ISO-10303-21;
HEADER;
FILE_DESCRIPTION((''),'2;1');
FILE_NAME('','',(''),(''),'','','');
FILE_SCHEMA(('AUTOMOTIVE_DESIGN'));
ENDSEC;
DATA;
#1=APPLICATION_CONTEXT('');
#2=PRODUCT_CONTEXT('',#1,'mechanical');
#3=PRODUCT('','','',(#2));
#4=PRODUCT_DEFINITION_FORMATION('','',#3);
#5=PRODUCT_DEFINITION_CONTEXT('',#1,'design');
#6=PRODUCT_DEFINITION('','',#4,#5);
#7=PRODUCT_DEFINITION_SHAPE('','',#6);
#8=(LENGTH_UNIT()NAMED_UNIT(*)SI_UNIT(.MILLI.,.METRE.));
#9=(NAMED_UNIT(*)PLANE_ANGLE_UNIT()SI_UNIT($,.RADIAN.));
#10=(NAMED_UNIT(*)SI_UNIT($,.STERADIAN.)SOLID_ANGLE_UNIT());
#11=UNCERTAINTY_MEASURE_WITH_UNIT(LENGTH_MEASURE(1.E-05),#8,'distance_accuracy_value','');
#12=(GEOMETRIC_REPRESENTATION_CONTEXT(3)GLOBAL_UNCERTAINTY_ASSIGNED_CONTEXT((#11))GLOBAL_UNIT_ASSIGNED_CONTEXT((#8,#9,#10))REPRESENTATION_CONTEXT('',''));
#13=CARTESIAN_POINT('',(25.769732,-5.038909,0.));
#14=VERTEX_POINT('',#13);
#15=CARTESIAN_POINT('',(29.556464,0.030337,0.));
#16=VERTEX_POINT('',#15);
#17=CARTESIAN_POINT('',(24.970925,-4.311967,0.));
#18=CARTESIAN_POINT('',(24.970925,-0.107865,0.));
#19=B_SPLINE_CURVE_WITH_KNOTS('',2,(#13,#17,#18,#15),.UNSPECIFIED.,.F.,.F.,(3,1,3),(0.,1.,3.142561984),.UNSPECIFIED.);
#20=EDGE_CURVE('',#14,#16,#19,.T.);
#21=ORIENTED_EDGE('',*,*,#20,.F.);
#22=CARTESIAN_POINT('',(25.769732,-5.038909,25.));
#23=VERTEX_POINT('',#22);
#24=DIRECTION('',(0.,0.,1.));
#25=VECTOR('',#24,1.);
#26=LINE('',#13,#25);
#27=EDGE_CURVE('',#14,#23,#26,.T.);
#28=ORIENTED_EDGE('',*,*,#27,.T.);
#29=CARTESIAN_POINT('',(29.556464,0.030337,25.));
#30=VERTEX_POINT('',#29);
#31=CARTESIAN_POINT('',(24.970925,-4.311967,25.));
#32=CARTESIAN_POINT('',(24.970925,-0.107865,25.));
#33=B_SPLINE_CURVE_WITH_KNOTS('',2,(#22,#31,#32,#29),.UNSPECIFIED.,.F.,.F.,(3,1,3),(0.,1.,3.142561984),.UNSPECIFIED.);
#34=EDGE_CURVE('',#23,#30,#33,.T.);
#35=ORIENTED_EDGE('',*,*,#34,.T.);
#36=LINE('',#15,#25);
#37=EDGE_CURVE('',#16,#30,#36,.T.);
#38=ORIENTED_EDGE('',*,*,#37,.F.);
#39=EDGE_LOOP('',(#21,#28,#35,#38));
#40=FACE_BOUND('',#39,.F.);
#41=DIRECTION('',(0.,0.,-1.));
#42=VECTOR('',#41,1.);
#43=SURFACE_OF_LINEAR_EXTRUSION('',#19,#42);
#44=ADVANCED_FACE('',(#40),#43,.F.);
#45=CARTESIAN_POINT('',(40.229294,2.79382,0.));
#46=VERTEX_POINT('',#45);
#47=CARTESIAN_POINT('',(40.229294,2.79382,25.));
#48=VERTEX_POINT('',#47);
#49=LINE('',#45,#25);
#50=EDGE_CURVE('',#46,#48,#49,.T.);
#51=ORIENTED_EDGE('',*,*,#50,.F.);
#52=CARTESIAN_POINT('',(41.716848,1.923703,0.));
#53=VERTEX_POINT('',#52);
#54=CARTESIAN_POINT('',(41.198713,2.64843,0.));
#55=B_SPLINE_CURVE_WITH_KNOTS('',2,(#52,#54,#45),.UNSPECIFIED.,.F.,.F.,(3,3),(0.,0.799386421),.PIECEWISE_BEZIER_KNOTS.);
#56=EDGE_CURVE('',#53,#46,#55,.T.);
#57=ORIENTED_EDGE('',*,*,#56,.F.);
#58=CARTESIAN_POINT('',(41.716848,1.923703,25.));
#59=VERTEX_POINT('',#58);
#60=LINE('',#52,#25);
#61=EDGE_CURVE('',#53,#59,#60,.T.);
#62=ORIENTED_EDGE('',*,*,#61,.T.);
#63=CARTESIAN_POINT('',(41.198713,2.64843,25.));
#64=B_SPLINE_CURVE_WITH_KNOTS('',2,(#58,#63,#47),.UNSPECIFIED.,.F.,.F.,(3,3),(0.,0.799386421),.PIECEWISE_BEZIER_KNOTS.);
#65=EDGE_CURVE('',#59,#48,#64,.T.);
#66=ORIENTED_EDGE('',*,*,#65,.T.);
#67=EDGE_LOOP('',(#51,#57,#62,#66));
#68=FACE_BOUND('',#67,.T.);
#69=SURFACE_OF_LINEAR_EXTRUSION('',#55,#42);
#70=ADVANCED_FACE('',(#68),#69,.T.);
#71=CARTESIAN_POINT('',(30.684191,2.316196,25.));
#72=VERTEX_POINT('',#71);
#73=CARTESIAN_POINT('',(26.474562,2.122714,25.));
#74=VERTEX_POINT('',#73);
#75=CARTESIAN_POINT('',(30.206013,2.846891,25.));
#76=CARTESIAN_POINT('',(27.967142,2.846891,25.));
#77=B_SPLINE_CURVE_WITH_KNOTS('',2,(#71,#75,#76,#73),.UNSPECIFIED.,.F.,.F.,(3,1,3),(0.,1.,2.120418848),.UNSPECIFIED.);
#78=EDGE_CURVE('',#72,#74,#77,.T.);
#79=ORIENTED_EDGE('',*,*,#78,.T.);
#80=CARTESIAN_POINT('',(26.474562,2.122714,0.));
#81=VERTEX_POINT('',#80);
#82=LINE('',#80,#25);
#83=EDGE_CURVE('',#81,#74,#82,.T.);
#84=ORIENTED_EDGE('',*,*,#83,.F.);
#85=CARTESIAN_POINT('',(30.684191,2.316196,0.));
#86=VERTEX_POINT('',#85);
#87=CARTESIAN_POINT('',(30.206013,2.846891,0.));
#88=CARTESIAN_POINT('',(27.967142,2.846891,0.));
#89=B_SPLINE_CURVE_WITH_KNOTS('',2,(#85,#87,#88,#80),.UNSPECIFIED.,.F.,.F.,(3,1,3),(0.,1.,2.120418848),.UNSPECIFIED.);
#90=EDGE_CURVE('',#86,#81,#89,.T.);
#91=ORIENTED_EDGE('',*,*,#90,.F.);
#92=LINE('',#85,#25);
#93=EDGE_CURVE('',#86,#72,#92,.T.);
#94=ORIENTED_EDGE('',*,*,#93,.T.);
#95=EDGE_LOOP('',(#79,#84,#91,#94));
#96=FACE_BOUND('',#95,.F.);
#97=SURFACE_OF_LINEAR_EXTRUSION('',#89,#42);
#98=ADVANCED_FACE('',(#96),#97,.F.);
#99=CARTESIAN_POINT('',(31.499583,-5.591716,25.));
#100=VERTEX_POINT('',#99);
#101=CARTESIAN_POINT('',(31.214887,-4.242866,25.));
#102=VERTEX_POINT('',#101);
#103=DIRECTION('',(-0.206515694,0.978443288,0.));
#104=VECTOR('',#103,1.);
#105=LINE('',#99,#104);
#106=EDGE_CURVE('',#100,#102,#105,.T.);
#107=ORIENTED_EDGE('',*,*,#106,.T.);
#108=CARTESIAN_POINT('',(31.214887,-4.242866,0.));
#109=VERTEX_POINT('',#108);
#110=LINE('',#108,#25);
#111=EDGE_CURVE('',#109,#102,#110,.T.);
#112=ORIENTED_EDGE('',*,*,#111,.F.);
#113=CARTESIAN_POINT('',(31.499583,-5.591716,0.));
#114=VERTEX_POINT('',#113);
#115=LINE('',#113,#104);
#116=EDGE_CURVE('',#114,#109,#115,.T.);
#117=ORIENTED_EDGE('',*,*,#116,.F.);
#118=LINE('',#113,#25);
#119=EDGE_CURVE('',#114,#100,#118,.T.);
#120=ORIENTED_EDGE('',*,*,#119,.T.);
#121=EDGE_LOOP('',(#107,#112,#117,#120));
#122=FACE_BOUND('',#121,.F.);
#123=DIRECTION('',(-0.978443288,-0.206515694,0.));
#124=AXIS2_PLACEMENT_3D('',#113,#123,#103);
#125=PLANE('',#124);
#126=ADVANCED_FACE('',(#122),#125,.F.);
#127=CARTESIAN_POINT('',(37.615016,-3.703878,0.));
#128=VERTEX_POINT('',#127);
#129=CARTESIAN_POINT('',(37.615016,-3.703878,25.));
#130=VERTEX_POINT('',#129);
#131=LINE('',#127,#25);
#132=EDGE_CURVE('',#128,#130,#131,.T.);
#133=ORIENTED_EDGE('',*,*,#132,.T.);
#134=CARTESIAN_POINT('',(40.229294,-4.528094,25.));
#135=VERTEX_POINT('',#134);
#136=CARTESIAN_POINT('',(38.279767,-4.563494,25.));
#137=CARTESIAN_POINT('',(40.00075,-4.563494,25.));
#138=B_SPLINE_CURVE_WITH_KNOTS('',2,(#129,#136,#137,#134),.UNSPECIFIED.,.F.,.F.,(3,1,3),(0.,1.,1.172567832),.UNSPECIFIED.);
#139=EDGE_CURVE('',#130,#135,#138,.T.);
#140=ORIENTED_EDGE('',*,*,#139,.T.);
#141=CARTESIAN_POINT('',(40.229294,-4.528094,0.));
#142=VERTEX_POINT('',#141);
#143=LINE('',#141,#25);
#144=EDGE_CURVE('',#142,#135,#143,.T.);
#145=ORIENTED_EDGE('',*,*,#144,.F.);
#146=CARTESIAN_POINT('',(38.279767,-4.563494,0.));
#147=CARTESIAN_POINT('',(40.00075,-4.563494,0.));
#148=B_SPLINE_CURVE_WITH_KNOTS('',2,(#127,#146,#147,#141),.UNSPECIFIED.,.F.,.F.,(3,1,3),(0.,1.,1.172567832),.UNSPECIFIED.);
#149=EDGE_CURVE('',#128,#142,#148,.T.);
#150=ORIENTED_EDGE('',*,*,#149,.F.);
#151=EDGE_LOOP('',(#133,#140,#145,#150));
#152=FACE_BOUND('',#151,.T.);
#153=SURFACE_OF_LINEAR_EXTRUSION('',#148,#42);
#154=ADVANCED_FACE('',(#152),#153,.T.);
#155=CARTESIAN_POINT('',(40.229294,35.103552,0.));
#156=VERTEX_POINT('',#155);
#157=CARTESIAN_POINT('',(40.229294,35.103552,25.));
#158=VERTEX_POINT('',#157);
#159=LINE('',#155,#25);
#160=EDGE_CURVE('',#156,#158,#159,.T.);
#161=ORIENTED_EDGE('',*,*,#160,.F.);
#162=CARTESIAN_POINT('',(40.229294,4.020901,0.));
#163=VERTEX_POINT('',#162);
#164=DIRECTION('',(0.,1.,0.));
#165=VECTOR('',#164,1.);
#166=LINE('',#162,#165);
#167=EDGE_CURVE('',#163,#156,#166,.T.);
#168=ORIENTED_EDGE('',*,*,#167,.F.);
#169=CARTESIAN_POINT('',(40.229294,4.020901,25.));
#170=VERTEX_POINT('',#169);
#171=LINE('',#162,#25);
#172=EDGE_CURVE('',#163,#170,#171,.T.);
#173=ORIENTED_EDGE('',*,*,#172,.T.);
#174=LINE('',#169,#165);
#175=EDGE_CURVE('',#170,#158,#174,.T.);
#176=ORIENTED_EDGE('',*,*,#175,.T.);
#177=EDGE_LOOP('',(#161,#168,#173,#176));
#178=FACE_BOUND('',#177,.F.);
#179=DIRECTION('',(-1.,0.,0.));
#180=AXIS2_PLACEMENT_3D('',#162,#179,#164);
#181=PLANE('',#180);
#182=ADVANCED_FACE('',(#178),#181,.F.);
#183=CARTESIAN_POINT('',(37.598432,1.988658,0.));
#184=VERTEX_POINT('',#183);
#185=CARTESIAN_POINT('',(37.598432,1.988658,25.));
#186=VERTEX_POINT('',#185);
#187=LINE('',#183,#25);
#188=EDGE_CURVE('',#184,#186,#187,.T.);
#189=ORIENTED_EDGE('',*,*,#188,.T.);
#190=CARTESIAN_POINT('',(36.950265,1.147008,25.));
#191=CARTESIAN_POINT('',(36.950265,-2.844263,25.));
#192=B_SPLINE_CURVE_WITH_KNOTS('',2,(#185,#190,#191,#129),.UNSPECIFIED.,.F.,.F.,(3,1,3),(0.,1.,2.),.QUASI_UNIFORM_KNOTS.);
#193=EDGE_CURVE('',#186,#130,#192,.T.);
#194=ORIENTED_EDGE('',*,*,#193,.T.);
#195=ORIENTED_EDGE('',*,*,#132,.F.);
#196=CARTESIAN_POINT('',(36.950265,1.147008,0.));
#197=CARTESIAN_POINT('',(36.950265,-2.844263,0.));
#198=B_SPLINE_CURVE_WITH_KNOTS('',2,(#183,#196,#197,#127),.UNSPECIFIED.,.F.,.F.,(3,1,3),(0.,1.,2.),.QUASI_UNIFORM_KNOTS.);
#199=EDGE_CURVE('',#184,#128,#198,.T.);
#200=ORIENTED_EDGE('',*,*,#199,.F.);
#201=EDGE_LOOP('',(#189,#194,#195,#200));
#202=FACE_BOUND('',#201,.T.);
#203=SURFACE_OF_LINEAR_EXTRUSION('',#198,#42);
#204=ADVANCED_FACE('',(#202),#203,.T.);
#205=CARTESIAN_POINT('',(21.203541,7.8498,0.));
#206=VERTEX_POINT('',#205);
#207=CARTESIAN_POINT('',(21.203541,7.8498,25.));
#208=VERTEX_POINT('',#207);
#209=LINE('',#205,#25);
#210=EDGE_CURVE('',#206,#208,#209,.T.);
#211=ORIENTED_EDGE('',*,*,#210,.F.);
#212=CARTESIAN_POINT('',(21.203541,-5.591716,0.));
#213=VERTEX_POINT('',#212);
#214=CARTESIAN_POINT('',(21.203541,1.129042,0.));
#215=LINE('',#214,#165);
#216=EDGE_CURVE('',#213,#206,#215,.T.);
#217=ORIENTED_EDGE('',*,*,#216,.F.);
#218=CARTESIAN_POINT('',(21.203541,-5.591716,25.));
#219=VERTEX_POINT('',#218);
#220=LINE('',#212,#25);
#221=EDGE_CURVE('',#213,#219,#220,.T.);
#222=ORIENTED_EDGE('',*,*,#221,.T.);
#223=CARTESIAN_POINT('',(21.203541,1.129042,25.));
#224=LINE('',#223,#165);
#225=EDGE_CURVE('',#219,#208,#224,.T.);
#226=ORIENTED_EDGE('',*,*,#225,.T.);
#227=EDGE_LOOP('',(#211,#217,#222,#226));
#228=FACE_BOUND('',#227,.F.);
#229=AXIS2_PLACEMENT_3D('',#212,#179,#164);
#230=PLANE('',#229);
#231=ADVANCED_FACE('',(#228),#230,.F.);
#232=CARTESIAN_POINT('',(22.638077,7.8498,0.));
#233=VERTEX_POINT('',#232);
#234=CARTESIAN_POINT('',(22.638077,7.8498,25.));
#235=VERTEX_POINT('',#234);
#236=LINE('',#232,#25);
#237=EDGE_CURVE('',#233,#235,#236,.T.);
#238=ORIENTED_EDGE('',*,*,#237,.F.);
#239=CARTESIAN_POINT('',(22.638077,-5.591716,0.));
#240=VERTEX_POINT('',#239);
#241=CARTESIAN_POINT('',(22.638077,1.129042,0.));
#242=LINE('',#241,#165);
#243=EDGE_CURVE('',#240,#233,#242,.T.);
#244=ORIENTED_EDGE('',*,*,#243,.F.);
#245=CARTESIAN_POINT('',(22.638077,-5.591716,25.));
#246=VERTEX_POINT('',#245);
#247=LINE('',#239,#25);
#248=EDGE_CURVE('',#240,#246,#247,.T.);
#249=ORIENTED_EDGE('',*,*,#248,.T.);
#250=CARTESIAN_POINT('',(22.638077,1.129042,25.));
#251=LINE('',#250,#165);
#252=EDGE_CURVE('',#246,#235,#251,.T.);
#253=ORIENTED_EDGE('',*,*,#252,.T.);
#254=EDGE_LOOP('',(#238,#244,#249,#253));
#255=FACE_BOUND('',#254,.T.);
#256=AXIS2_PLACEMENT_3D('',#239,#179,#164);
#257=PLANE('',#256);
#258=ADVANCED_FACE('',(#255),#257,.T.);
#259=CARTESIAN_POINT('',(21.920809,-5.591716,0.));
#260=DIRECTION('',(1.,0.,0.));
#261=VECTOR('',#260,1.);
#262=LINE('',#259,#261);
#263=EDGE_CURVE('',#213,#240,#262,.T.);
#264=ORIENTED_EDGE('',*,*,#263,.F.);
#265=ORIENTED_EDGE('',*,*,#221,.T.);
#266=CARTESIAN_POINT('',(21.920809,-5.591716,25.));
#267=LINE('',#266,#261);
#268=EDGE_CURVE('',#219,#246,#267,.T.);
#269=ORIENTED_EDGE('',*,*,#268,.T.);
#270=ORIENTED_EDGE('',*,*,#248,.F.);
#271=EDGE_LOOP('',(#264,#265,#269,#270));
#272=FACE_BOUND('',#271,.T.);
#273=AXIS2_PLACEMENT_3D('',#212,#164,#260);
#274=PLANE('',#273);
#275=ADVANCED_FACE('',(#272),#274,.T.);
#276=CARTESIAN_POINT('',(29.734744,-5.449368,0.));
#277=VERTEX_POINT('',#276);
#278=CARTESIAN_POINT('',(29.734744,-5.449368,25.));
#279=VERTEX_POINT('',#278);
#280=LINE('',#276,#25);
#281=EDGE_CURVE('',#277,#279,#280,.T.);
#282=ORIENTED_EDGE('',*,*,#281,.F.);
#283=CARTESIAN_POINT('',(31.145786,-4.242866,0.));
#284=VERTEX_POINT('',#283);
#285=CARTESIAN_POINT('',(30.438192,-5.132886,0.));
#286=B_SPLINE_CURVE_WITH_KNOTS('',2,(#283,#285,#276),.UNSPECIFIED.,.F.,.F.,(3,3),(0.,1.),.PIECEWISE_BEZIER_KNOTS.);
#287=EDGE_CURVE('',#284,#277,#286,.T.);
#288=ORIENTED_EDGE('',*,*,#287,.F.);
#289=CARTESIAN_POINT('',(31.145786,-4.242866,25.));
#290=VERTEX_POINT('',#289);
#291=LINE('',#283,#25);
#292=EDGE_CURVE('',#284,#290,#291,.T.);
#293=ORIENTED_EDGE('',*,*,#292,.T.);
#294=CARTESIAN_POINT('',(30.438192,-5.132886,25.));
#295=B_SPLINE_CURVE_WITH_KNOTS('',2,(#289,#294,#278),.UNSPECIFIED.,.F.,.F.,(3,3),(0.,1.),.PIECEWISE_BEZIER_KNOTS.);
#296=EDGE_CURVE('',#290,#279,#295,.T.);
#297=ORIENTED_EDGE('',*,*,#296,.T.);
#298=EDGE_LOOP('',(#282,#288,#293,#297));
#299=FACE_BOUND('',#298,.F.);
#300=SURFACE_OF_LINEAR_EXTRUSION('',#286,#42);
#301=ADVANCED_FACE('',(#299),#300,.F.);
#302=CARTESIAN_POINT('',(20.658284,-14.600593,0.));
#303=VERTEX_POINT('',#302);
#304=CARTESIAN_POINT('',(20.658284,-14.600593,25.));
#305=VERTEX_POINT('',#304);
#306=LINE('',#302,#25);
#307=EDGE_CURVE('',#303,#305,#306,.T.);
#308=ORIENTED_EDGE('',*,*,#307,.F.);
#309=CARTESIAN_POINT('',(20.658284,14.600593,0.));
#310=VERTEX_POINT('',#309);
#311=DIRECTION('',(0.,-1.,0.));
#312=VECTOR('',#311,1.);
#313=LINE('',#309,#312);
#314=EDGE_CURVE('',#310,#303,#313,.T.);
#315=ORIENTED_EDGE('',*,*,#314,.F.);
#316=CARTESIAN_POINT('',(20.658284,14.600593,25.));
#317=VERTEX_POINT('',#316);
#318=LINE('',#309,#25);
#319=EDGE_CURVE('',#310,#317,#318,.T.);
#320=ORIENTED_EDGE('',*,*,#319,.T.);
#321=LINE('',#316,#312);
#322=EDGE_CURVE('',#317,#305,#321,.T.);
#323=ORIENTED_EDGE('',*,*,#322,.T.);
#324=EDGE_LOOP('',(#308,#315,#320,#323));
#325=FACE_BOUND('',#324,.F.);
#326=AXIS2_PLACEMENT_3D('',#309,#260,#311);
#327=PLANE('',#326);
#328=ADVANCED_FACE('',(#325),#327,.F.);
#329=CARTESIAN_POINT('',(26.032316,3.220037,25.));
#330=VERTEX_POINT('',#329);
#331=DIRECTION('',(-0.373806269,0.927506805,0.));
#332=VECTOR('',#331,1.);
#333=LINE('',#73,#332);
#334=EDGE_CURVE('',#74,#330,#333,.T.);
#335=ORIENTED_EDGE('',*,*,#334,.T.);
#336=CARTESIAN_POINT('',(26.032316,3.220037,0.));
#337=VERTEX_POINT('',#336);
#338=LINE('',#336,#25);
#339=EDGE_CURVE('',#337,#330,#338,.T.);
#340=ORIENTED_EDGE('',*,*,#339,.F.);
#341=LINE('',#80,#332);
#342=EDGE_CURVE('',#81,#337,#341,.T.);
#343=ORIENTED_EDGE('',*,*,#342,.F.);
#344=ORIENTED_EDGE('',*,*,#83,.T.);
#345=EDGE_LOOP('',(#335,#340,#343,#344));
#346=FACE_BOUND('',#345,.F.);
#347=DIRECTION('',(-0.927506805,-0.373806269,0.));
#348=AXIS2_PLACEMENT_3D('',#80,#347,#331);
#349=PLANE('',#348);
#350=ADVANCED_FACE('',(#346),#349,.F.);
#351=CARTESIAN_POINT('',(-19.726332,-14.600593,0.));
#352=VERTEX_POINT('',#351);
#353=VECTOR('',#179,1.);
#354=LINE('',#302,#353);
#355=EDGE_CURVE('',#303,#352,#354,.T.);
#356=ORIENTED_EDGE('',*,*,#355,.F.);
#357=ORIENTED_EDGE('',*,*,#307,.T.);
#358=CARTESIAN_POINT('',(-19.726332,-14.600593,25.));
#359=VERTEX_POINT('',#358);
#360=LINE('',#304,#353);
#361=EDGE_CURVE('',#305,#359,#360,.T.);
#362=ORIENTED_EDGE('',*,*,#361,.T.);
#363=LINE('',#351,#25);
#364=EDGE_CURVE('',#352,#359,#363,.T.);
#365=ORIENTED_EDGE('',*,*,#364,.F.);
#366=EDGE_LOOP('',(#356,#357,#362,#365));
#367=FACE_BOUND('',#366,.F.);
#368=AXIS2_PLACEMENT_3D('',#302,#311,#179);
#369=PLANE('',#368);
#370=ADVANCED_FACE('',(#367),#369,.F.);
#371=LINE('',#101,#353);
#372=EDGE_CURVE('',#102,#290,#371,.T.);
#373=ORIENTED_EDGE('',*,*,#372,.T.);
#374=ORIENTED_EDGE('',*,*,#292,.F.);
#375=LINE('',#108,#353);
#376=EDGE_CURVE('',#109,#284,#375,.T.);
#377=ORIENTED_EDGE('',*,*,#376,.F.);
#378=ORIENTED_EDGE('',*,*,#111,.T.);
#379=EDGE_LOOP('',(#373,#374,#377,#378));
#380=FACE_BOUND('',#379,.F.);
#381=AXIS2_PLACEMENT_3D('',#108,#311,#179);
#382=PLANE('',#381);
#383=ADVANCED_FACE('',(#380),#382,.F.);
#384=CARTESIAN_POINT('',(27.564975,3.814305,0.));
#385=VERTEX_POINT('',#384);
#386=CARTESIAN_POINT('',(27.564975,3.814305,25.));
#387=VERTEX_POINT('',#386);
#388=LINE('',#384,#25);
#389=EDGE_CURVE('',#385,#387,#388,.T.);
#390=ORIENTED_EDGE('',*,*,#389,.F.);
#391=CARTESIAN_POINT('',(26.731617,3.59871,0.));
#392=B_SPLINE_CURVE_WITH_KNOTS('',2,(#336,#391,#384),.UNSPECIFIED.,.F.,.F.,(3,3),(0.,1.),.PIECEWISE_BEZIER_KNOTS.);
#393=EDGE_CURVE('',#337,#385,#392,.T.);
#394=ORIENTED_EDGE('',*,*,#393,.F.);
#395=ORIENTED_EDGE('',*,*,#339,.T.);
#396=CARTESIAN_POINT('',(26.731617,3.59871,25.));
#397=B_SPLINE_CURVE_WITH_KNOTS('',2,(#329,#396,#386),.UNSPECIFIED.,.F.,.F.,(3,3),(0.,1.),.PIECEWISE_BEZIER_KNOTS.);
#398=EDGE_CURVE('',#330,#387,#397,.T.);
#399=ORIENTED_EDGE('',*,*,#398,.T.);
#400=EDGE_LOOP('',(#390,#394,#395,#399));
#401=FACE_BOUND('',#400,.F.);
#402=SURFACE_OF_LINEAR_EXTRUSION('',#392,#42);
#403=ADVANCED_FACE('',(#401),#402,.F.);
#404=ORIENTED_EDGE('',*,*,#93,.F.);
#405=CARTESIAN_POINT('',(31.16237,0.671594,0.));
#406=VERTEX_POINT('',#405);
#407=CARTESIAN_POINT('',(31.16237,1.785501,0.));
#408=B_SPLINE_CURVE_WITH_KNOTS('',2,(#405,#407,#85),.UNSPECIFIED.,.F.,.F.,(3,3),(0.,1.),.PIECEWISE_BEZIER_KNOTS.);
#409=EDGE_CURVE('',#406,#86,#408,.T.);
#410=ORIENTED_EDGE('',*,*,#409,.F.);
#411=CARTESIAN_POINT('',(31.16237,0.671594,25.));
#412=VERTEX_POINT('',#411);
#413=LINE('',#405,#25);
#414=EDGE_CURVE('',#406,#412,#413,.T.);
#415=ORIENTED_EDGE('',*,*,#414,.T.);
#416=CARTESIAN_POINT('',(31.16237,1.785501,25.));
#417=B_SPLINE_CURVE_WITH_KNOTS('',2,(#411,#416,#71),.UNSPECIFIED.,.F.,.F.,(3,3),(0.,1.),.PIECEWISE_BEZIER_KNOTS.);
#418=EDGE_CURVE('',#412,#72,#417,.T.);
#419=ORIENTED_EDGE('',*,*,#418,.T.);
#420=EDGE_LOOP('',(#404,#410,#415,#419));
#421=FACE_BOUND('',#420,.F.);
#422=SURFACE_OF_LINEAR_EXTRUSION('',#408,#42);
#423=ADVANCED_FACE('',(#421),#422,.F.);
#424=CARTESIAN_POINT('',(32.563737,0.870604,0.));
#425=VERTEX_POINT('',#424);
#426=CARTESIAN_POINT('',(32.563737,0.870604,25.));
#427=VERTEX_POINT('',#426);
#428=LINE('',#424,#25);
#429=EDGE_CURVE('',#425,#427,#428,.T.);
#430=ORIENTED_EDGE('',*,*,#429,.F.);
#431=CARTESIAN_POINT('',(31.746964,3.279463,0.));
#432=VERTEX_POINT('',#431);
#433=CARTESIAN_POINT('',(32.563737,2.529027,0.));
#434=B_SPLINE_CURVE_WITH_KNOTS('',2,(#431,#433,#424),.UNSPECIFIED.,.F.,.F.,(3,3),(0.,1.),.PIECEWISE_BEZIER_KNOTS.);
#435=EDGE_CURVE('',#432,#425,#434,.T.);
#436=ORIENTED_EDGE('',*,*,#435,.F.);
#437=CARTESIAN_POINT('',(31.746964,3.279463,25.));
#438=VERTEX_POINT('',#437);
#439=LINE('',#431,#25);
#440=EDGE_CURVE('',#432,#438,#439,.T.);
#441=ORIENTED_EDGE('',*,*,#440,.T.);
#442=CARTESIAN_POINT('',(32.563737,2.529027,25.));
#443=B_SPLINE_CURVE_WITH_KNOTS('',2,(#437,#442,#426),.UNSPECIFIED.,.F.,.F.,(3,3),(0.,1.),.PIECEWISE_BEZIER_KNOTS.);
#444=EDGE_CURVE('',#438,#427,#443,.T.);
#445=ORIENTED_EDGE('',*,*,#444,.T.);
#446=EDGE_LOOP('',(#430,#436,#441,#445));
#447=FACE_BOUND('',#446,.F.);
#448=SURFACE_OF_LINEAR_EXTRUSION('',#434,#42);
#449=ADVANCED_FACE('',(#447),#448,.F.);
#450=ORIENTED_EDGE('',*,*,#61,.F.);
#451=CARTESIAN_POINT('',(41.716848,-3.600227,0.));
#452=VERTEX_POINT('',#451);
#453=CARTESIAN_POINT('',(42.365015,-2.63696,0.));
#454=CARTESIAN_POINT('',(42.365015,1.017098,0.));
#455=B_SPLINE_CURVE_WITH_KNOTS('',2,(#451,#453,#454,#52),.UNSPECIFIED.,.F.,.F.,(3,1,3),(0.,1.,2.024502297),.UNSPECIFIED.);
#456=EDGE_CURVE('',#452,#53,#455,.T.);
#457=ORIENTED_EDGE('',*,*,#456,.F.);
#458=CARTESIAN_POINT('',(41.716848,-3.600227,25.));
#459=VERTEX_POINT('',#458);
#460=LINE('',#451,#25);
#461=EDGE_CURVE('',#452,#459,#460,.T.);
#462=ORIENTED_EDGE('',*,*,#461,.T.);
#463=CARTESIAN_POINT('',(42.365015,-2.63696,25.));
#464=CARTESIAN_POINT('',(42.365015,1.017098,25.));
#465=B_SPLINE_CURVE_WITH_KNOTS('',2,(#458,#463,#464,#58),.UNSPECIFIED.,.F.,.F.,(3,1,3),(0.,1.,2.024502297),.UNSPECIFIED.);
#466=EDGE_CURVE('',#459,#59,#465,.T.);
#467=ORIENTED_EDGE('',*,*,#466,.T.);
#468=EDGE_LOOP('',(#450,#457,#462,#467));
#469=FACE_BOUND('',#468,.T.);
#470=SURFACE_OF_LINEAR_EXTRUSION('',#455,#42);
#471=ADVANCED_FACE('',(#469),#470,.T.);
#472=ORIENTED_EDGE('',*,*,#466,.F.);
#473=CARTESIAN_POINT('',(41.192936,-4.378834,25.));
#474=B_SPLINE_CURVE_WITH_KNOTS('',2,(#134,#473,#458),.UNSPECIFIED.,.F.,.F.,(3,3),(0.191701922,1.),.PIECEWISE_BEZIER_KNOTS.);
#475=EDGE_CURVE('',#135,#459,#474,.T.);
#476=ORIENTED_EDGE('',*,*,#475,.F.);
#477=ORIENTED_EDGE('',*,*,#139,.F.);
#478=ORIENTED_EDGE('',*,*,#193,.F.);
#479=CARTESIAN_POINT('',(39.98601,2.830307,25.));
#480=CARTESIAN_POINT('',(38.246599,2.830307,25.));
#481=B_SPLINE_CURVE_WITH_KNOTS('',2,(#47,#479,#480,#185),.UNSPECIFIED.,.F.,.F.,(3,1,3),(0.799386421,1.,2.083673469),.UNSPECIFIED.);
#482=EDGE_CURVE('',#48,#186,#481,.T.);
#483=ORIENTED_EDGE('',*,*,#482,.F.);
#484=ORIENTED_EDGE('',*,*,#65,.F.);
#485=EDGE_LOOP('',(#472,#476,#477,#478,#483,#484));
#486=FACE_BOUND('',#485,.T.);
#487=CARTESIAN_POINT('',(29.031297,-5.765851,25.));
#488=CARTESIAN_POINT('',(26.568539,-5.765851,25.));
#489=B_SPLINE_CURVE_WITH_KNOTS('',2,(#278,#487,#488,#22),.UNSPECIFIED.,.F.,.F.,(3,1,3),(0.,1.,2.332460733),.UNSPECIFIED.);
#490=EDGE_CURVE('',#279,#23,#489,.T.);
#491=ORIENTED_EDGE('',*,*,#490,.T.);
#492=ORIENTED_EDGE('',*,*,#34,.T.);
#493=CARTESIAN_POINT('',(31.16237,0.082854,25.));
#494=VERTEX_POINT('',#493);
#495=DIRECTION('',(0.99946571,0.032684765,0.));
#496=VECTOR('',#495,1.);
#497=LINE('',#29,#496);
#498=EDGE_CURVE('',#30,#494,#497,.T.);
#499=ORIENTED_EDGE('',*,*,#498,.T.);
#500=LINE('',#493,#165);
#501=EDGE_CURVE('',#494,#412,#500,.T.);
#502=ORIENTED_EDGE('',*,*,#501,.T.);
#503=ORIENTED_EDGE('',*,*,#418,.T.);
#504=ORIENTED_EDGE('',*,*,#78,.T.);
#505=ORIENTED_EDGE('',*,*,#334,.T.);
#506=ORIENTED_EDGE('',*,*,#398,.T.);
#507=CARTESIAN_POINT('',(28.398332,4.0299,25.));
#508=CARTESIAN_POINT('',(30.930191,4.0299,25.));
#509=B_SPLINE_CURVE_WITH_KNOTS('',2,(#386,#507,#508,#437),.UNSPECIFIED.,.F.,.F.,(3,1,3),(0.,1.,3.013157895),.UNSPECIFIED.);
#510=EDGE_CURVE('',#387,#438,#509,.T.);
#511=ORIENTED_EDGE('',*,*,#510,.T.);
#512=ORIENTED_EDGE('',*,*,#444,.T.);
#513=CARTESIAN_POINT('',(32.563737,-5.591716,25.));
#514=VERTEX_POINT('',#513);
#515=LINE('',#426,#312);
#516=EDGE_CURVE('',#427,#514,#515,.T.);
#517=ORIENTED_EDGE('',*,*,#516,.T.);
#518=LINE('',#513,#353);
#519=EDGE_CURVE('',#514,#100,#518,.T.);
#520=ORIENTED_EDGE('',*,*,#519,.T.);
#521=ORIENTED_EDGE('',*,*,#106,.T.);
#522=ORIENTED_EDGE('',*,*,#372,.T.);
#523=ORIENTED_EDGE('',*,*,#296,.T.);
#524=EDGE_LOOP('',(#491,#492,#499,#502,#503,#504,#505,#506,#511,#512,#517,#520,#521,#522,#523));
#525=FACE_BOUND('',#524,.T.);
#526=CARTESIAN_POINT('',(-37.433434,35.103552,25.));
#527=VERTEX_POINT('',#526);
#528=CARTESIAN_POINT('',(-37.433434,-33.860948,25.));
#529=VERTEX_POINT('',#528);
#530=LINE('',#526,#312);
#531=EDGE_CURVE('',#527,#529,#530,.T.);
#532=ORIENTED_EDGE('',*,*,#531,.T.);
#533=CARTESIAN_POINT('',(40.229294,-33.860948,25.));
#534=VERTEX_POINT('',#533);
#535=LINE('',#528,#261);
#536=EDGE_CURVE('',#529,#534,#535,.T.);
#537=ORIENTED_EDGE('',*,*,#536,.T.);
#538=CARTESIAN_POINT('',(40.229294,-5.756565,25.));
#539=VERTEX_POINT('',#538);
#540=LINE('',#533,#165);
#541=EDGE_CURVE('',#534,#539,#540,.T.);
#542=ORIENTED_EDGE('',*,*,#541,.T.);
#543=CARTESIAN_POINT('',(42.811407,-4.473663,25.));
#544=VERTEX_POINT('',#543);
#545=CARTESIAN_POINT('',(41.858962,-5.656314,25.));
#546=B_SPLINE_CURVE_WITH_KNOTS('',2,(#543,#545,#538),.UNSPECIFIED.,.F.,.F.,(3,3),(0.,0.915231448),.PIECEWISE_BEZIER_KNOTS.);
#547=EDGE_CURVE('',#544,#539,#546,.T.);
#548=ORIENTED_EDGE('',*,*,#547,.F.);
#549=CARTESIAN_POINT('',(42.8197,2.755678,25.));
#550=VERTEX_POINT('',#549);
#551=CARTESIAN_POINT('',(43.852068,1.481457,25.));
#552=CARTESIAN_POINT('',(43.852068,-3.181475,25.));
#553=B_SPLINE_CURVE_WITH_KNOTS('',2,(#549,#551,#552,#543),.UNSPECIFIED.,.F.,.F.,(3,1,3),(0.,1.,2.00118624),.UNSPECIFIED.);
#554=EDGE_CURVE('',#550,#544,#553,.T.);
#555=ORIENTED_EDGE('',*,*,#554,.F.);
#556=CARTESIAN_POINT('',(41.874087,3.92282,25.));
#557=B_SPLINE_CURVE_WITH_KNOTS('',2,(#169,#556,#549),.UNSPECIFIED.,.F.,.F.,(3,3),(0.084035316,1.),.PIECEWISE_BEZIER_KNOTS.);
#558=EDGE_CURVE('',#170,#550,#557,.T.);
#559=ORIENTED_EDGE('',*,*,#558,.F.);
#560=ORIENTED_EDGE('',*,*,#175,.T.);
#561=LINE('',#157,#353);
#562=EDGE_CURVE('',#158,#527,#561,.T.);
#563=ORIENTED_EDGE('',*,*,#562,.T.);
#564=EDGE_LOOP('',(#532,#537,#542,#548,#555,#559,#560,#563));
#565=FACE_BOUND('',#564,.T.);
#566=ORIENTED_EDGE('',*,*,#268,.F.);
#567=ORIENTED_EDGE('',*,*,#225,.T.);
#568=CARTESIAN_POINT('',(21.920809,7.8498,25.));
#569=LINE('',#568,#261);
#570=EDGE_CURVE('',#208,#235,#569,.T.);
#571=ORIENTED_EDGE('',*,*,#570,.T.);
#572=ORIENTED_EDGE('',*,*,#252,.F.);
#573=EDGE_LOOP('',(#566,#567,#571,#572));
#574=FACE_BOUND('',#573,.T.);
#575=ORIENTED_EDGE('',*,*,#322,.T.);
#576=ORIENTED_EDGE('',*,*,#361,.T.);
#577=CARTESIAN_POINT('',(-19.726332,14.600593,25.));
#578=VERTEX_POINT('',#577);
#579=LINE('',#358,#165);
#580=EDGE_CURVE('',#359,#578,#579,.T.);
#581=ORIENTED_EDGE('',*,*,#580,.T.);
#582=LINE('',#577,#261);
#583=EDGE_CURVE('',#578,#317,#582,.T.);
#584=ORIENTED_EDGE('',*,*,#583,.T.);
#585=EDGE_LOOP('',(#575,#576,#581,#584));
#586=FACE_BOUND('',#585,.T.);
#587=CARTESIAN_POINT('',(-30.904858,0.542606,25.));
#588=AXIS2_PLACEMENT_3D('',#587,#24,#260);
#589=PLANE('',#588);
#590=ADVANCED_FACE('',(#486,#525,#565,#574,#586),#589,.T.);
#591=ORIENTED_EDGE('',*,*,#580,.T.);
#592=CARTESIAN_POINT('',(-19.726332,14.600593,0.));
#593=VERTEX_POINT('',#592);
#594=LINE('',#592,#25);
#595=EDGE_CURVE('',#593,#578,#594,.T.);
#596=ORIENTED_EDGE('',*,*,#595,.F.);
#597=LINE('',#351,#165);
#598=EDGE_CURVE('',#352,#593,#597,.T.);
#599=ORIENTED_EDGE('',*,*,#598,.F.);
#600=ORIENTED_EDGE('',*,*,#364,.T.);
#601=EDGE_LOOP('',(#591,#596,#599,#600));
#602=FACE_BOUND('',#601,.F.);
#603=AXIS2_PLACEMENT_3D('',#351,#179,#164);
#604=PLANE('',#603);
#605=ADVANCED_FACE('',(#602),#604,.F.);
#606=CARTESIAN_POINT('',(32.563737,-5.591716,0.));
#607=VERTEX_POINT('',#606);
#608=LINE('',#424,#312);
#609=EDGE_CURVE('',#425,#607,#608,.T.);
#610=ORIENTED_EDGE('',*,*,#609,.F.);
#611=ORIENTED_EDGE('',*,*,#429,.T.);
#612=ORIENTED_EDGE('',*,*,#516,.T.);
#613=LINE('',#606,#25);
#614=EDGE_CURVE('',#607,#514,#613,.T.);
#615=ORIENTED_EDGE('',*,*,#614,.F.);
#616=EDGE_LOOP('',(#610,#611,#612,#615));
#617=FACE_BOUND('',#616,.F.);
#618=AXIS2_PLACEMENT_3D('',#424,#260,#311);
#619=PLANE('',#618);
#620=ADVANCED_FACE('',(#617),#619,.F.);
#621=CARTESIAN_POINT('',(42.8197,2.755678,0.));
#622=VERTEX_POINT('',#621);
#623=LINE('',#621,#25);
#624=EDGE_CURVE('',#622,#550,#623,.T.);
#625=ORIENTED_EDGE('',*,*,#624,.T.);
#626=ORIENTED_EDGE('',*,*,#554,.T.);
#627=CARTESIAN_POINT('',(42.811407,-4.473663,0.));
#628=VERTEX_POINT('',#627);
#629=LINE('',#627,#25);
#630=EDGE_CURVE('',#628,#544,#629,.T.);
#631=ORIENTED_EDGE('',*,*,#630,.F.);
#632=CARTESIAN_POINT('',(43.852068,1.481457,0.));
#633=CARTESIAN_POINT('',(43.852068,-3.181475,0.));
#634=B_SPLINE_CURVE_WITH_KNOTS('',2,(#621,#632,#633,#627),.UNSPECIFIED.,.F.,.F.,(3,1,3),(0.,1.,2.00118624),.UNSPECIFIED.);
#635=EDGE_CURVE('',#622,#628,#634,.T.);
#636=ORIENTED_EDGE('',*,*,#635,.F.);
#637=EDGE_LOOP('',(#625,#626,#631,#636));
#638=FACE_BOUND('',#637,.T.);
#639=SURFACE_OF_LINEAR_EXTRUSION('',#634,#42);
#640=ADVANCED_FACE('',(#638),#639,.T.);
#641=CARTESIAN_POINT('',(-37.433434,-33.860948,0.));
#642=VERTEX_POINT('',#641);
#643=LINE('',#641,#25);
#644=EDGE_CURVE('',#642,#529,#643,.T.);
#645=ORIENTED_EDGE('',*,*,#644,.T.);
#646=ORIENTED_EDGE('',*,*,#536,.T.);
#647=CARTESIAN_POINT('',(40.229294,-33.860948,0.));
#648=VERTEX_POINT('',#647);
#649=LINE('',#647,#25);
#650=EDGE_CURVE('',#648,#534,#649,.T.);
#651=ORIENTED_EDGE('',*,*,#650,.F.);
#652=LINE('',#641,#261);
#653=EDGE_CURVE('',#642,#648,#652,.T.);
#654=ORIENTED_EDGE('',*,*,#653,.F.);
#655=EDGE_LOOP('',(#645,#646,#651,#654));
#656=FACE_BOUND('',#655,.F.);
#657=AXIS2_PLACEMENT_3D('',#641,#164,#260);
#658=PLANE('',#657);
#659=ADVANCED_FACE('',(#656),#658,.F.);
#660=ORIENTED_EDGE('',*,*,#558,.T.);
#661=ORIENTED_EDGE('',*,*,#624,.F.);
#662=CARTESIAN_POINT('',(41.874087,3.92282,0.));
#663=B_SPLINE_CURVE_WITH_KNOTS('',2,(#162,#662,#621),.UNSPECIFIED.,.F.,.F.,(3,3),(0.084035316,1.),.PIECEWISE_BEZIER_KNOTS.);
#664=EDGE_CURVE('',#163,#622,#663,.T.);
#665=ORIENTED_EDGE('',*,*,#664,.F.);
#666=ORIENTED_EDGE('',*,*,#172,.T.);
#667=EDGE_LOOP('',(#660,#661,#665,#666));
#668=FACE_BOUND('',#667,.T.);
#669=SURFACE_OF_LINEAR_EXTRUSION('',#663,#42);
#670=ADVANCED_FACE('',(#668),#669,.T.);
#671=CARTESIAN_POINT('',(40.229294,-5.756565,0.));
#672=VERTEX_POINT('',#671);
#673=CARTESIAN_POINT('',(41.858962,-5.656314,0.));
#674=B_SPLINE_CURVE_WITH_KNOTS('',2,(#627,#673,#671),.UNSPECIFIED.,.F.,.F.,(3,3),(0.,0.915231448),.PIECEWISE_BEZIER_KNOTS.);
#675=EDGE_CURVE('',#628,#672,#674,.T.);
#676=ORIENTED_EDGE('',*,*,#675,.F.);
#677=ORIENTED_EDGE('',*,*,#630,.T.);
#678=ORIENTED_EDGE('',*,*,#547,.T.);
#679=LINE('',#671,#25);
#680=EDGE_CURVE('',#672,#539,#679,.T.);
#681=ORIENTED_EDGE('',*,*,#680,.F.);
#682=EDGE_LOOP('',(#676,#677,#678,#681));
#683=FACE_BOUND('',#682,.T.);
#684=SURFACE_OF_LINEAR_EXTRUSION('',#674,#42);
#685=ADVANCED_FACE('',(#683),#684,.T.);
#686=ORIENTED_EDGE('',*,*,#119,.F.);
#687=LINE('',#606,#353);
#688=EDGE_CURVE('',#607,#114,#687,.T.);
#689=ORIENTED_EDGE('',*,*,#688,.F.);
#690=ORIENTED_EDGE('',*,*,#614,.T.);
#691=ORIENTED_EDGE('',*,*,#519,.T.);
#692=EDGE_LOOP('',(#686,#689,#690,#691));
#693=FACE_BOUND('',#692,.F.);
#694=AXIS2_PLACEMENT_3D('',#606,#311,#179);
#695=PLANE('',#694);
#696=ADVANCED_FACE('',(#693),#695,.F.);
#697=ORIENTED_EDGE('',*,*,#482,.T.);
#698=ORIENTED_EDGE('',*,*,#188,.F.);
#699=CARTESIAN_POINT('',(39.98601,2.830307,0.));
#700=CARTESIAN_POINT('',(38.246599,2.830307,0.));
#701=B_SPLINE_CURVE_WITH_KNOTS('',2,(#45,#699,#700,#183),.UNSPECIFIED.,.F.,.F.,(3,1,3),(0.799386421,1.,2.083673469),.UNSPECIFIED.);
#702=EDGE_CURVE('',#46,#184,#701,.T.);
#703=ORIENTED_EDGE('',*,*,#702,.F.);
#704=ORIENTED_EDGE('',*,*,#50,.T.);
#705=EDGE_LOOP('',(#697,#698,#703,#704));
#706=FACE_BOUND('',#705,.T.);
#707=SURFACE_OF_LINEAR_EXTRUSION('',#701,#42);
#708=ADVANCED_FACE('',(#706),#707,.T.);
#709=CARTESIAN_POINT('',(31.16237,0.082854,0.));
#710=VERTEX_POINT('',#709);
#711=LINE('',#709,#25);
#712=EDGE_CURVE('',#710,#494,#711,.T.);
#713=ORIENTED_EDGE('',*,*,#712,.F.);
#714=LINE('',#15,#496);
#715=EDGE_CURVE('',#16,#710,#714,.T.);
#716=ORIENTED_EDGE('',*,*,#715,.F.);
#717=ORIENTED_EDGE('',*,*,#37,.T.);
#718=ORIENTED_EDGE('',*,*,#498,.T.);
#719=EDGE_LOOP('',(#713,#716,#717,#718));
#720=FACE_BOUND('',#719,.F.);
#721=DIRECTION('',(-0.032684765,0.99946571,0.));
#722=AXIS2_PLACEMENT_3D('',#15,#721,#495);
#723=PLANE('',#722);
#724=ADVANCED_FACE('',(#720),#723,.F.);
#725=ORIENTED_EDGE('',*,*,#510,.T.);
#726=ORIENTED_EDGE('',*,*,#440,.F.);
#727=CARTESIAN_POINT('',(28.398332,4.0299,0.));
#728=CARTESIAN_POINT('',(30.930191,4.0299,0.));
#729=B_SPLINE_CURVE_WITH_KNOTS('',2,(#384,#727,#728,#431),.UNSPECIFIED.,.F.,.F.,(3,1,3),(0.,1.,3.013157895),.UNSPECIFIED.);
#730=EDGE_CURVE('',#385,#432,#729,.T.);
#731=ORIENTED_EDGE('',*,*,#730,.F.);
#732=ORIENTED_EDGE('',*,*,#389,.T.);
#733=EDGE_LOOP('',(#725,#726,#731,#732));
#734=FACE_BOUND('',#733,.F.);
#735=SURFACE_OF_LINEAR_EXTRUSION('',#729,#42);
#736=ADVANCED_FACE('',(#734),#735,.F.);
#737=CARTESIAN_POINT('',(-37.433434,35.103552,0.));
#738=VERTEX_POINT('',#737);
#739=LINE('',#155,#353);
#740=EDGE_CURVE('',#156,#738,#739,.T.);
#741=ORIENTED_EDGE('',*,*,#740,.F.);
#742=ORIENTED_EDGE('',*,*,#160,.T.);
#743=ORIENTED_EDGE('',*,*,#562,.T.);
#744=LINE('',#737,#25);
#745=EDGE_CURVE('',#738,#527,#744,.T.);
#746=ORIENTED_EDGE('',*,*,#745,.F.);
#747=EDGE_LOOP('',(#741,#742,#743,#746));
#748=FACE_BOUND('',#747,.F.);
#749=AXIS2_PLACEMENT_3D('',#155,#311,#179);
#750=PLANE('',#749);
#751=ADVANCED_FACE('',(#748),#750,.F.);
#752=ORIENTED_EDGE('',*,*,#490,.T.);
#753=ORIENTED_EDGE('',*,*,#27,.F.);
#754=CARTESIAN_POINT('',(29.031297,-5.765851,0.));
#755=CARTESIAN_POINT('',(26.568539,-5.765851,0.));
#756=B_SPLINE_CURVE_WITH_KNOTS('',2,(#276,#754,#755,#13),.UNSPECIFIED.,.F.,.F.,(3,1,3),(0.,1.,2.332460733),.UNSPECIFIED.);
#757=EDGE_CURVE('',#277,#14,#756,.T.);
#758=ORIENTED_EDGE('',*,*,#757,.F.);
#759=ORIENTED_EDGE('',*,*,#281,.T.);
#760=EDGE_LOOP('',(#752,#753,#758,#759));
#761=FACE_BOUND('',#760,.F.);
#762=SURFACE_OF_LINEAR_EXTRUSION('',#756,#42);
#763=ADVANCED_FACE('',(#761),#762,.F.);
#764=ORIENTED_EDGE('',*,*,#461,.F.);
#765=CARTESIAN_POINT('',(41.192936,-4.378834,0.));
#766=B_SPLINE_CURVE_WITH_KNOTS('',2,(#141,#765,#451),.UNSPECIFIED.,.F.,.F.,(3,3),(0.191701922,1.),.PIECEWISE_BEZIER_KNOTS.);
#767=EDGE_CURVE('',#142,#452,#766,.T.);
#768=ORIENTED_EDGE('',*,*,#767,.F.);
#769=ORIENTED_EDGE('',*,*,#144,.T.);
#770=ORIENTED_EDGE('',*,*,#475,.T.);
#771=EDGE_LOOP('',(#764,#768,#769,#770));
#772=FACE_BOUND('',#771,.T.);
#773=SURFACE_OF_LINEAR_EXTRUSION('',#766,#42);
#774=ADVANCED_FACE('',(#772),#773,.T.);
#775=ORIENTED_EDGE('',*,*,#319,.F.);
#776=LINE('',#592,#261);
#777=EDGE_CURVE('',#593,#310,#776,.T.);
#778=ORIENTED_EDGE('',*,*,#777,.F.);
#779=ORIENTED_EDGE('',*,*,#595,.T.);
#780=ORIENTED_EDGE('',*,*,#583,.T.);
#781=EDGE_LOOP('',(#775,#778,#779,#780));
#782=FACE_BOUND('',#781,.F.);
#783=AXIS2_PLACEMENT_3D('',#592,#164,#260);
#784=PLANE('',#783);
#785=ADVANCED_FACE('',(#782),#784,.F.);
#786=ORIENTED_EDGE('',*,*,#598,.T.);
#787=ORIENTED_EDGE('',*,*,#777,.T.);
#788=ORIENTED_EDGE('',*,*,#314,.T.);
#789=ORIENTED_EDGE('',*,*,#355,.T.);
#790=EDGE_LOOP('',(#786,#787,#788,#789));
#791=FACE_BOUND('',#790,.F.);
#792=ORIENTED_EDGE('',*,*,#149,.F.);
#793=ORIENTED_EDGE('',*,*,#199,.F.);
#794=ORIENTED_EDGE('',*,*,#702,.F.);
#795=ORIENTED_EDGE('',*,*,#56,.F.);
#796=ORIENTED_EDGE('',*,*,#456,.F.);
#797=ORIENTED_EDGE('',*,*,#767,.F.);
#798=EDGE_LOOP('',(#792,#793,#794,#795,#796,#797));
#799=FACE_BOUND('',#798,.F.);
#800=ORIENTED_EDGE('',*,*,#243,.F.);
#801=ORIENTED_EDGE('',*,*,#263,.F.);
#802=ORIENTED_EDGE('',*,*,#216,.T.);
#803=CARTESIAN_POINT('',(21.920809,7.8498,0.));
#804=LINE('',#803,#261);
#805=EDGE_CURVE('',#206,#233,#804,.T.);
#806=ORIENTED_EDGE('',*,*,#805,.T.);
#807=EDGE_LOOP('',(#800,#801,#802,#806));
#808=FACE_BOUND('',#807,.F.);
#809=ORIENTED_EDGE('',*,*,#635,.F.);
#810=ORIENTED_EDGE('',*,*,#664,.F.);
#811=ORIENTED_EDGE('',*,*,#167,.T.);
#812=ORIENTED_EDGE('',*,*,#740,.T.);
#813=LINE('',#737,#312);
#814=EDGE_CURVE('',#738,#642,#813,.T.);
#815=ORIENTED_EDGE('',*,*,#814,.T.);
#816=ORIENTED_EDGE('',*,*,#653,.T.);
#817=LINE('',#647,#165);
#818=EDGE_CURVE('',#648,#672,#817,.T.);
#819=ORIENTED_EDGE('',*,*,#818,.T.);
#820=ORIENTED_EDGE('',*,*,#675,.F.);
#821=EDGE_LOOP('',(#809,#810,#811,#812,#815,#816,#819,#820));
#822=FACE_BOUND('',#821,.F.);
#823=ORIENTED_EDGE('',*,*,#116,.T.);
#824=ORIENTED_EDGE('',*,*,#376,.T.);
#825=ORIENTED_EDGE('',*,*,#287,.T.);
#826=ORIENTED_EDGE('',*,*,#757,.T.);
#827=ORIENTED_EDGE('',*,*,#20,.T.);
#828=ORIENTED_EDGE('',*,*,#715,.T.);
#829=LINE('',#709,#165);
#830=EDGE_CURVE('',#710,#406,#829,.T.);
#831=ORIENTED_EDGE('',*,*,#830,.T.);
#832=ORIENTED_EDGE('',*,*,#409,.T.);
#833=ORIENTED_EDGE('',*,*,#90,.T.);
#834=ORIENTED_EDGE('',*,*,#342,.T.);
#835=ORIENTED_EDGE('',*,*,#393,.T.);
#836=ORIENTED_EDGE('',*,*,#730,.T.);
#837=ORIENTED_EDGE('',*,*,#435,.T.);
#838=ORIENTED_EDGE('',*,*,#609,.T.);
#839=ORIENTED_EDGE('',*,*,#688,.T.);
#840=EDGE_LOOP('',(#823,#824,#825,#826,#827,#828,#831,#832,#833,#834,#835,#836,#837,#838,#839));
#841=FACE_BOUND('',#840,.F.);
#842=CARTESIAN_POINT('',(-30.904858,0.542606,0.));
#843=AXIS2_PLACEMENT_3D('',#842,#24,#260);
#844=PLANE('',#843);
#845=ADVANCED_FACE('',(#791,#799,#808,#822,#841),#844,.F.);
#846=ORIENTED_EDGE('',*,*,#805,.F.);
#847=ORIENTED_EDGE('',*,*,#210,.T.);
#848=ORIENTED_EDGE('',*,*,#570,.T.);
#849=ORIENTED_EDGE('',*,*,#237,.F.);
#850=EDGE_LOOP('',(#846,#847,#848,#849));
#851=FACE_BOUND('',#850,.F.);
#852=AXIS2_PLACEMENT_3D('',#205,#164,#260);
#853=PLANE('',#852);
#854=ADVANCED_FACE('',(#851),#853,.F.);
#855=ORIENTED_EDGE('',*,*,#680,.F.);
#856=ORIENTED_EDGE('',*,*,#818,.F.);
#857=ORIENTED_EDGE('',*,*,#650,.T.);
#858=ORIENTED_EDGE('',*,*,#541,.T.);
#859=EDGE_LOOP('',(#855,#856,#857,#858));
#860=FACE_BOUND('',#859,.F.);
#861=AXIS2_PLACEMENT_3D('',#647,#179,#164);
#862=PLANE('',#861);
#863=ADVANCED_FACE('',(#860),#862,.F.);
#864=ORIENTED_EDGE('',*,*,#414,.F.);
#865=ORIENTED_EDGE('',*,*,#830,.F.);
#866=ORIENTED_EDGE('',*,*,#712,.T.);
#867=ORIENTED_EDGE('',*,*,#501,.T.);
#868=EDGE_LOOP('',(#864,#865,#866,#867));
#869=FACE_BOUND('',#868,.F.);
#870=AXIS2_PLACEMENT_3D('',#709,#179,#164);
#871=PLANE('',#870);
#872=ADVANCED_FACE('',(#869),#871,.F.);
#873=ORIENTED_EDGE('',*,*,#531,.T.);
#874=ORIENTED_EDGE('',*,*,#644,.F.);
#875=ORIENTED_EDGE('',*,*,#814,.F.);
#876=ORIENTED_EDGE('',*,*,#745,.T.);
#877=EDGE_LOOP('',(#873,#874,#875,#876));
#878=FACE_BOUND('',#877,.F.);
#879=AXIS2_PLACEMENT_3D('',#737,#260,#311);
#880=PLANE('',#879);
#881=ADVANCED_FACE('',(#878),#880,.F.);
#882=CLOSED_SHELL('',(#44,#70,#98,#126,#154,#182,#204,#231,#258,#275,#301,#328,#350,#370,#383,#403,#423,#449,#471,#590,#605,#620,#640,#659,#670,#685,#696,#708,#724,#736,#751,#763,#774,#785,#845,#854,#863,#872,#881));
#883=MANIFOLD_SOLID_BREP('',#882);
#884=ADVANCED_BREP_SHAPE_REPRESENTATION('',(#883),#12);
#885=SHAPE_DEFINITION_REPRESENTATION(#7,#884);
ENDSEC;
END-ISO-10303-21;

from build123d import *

# Parameters (mm, degrees)
F0_W     = 1.4345356546
F0_H     = 13.4415161623
F1_DEPTH = 25


with BuildPart() as f1:
    # F0 (on Top) → F1 (new body)
    with BuildSketch(Plane.XY):
        Polygon((-19.7263322771, 14.6005926654), (-37.4334342778, 35.1035520434), (-37.4334342778, -33.8609479368), (-19.7263322771, -14.6005926654), align=None)
        Polygon((40.2292944491, 35.1035520434), (-37.4334342778, 35.1035520434), (-19.7263322771, 14.6005926654), (20.6582844257, 14.6005926654), align=None)
        with BuildLine():
            Line((40.2292944491, 4.0209012059), (40.2292944491, 35.1035520434))
            Line((40.2292944491, 35.1035520434), (20.6582844257, 14.6005926654))
            Line((20.6582844257, 14.6005926654), (20.6582844257, -14.6005926654))
            Line((20.6582844257, -14.6005926654), (40.2292944491, -33.8609479368))
            Line((40.2292944491, -33.8609479368), (40.2292944491, -5.7565652547))
            add(Edge.make_bspline(
                [(40.2292944491, -5.7565652547), (40.0783549242, -5.7658505375), (39.9216058908, -5.7658505375)],
                knots=[0.915231448, 0.915231448, 0.915231448, 1, 1, 1], degree=2))
            add(Edge.make_bspline(
                [(39.9216058908, -5.7658505375), (38.9956532043, -5.7658505375), (38.2313967333, -5.4244918605)],
                knots=[0, 0, 0, 1, 1, 1], degree=2))
            add(Edge.make_bspline(
                [(38.2313967333, -5.4244918605), (37.4671402622, -5.0831331836), (36.9502651805, -4.372775451)],
                knots=[0, 0, 0, 1, 1, 1], degree=2))
            Line((36.9502651805, -4.372775451), (36.8452317414, -4.372775451))
            Line((36.8452317414, -4.372775451), (36.5439516136, -5.5917161517))
            Line((36.5439516136, -5.5917161517), (35.5157295259, -5.5917161517))
            Line((35.5157295259, -5.5917161517), (35.5157295259, 7.8498000106))
            Line((35.5157295259, 7.8498000106), (36.9502651805, 7.8498000106))
            Line((36.9502651805, 7.8498000106), (36.9502651805, 4.5827072481))
            add(Edge.make_bspline(
                [(36.9502651805, 4.5827072481), (36.9502651805, 3.4853842137), (36.8811642337, 2.6147122846)],
                knots=[0, 0, 0, 1, 1, 1], degree=2))
            Line((36.8811642337, 2.6147122846), (36.9502651805, 2.6147122846))
            add(Edge.make_bspline(
                [(36.9502651805, 2.6147122846), (37.9508468894, 4.0298996741), (39.9216058908, 4.0298996741)],
                knots=[0, 0, 0, 1, 1, 1], degree=2))
            add(Edge.make_bspline(
                [(39.9216058908, 4.0298996741), (40.0783927276, 4.0298996741), (40.2292944491, 4.0209012059)],
                knots=[0, 0, 0, 0.0840353158, 0.0840353158, 0.0840353158], degree=2))
        make_face()
        with BuildLine():
            Line((32.5637370806, -5.5917161517), (31.4995825007, -5.5917161517))
            Line((31.4995825007, -5.5917161517), (31.2148866, -4.2428656711))
            Line((31.2148866, -4.2428656711), (31.1457856533, -4.2428656711))
            add(Edge.make_bspline(
                [(31.1457856533, -4.2428656711), (30.4381919585, -5.1328858652), (29.7347443206, -5.4493682014)],
                knots=[0, 0, 0, 1, 1, 1], degree=2))
            add(Edge.make_bspline(
                [(29.7347443206, -5.4493682014), (29.0312966827, -5.7658505375), (27.9754342163, -5.7658505375)],
                knots=[0, 0, 0, 1, 1, 1], degree=2))
            add(Edge.make_bspline(
                [(27.9754342163, -5.7658505375), (26.5685389404, -5.7658505375), (25.769731996, -5.0389085777)],
                knots=[0, 0, 0, 1, 1, 1], degree=2))
            add(Edge.make_bspline(
                [(25.769731996, -5.0389085777), (24.9709250515, -4.3119666178), (24.9709250515, -2.9741722887)],
                knots=[0, 0, 0, 1, 1, 1], degree=2))
            add(Edge.make_bspline(
                [(24.9709250515, -2.9741722887), (24.9709250515, -0.1078650174), (29.556463878, 0.0303368761)],
                knots=[0, 0, 0, 1, 1, 1], degree=2))
            Line((29.556463878, 0.0303368761), (31.1623698805, 0.0828535956))
            Line((31.1623698805, 0.0828535956), (31.1623698805, 0.6715936619))
            add(Edge.make_bspline(
                [(31.1623698805, 0.6715936619), (31.1623698805, 1.7855009236), (30.684191329, 2.3161961946)],
                knots=[0, 0, 0, 1, 1, 1], degree=2))
            add(Edge.make_bspline(
                [(30.684191329, 2.3161961946), (30.2060127774, 2.8468914657), (29.1501503111, 2.8468914657)],
                knots=[0, 0, 0, 1, 1, 1], degree=2))
            add(Edge.make_bspline(
                [(29.1501503111, 2.8468914657), (27.9671421027, 2.8468914657), (26.4745616528, 2.1227135437)],
                knots=[0, 0, 0, 1, 1, 1], degree=2))
            Line((26.4745616528, 2.1227135437), (26.0323155936, 3.2200365782))
            add(Edge.make_bspline(
                [(26.0323155936, 3.2200365782), (26.7316171747, 3.5987097664), (27.5649745926, 3.8143047202)],
                knots=[0, 0, 0, 1, 1, 1], degree=2))
            add(Edge.make_bspline(
                [(27.5649745926, 3.8143047202), (28.3983320104, 4.0298996741), (29.2385995229, 4.0298996741)],
                knots=[0, 0, 0, 1, 1, 1], degree=2))
            add(Edge.make_bspline(
                [(29.2385995229, 4.0298996741), (30.9301906994, 4.0298996741), (31.74696389, 3.2794633924)],
                knots=[0, 0, 0, 1, 1, 1], degree=2))
            add(Edge.make_bspline(
                [(31.74696389, 3.2794633924), (32.5637370806, 2.5290271106), (32.5637370806, 0.8706043886)],
                knots=[0, 0, 0, 1, 1, 1], degree=2))
            Line((32.5637370806, 0.8706043886), (32.5637370806, -5.5917161517))
        make_face(mode=Mode.SUBTRACT)
        with Locations((21.9208092619, 1.1290419294)):
            Rectangle(F0_W, F0_H, mode=Mode.SUBTRACT)
        Polygon((-19.7263322771, -14.6005926654), (-37.4334342778, -33.8609479368), (40.2292944491, -33.8609479368), (20.6582844257, -14.6005926654), align=None)
        with BuildLine():
            add(Edge.make_bspline(
                [(40.2292944491, 4.0209012059), (41.8740868362, 3.9228200715), (42.8196995976, 2.755678216)],
                knots=[0.0840353158, 0.0840353158, 0.0840353158, 1, 1, 1], degree=2))
            Line((40.2292944491, 4.0209012059), (40.2292944491, 2.7938202111))
            add(Edge.make_bspline(
                [(41.7168484874, 1.9237028171), (41.1987126844, 2.6484300811), (40.2292944491, 2.7938202111)],
                knots=[0, 0, 0, 0.7993864214, 0.7993864214, 0.7993864214], degree=2))
            add(Edge.make_bspline(
                [(42.365015368, -0.8320429394), (42.365015368, 1.0170983957), (41.7168484874, 1.9237028171)],
                knots=[0, 0, 0, 1, 1, 1], degree=2))
            add(Edge.make_bspline(
                [(41.7168484874, -3.6002268663), (42.365015368, -2.6369596686), (42.365015368, -0.8320429394)],
                knots=[0, 0, 0, 1, 1, 1], degree=2))
            add(Edge.make_bspline(
                [(40.2292944491, -4.528094354), (41.1929364436, -4.378833891), (41.7168484874, -3.6002268663)],
                knots=[0.1917019218, 0.1917019218, 0.1917019218, 1, 1, 1], degree=2))
            Line((40.2292944491, -4.528094354), (40.2292944491, -5.7565652547))
            add(Edge.make_bspline(
                [(42.811407484, -4.4736628332), (41.8589624891, -5.6563136569), (40.2292944491, -5.7565652547)],
                knots=[0, 0, 0, 0.915231448, 0.915231448, 0.915231448], degree=2))
            add(Edge.make_bspline(
                [(43.8520677421, -0.8486271666), (43.8520677421, -3.181475129), (42.811407484, -4.4736628332)],
                knots=[0, 0, 0, 1, 1, 1], degree=2))
            add(Edge.make_bspline(
                [(42.8196995976, 2.755678216), (43.8520677421, 1.4814567579), (43.8520677421, -0.8486271666)],
                knots=[0, 0, 0, 1, 1, 1], degree=2))
        make_face()
        with BuildLine():
            Line((40.2292944491, 2.7938202111), (40.2292944491, 4.0209012059))
            add(Edge.make_bspline(
                [(39.9216058908, 4.0298996741), (40.0783927276, 4.0298996741), (40.2292944491, 4.0209012059)],
                knots=[0, 0, 0, 0.0840353158, 0.0840353158, 0.0840353158], degree=2))
            add(Edge.make_bspline(
                [(36.9502651805, 2.6147122846), (37.9508468894, 4.0298996741), (39.9216058908, 4.0298996741)],
                knots=[0, 0, 0, 1, 1, 1], degree=2))
            Line((36.9502651805, 2.6147122846), (36.8811642337, 2.6147122846))
            add(Edge.make_bspline(
                [(36.9502651805, 4.5827072481), (36.9502651805, 3.4853842137), (36.8811642337, 2.6147122846)],
                knots=[0, 0, 0, 1, 1, 1], degree=2))
            Line((36.9502651805, 4.5827072481), (36.9502651805, 7.8498000106))
            Line((36.9502651805, 7.8498000106), (35.5157295259, 7.8498000106))
            Line((35.5157295259, 7.8498000106), (35.5157295259, -5.5917161517))
            Line((35.5157295259, -5.5917161517), (36.5439516136, -5.5917161517))
            Line((36.5439516136, -5.5917161517), (36.8452317414, -4.372775451))
            Line((36.8452317414, -4.372775451), (36.9502651805, -4.372775451))
            add(Edge.make_bspline(
                [(38.2313967333, -5.4244918605), (37.4671402622, -5.0831331836), (36.9502651805, -4.372775451)],
                knots=[0, 0, 0, 1, 1, 1], degree=2))
            add(Edge.make_bspline(
                [(39.9216058908, -5.7658505375), (38.9956532043, -5.7658505375), (38.2313967333, -5.4244918605)],
                knots=[0, 0, 0, 1, 1, 1], degree=2))
            add(Edge.make_bspline(
                [(40.2292944491, -5.7565652547), (40.0783549242, -5.7658505375), (39.9216058908, -5.7658505375)],
                knots=[0.915231448, 0.915231448, 0.915231448, 1, 1, 1], degree=2))
            Line((40.2292944491, -5.7565652547), (40.2292944491, -4.528094354))
            add(Edge.make_bspline(
                [(39.747471505, -4.563494064), (40.0007500207, -4.563494064), (40.2292944491, -4.528094354)],
                knots=[0, 0, 0, 0.1917019218, 0.1917019218, 0.1917019218], degree=2))
            add(Edge.make_bspline(
                [(37.6150162882, -3.7038782864), (38.279767396, -4.563494064), (39.747471505, -4.563494064)],
                knots=[0, 0, 0, 1, 1, 1], degree=2))
            add(Edge.make_bspline(
                [(36.9502651805, -0.8486271666), (36.9502651805, -2.8442625088), (37.6150162882, -3.7038782864)],
                knots=[0, 0, 0, 1, 1, 1], degree=2))
            add(Edge.make_bspline(
                [(37.598432061, 1.988657707), (36.9502651805, 1.1470081756), (36.9502651805, -0.8486271666)],
                knots=[0, 0, 0, 1, 1, 1], degree=2))
            add(Edge.make_bspline(
                [(39.7143030506, 2.8303072385), (38.2465989415, 2.8303072385), (37.598432061, 1.988657707)],
                knots=[0, 0, 0, 1, 1, 1], degree=2))
            add(Edge.make_bspline(
                [(40.2292944491, 2.7938202111), (39.9860097796, 2.8303072385), (39.7143030506, 2.8303072385)],
                knots=[0.7993864214, 0.7993864214, 0.7993864214, 1, 1, 1], degree=2))
        make_face()
    extrude(amount=F1_DEPTH)


solid = f1.part
